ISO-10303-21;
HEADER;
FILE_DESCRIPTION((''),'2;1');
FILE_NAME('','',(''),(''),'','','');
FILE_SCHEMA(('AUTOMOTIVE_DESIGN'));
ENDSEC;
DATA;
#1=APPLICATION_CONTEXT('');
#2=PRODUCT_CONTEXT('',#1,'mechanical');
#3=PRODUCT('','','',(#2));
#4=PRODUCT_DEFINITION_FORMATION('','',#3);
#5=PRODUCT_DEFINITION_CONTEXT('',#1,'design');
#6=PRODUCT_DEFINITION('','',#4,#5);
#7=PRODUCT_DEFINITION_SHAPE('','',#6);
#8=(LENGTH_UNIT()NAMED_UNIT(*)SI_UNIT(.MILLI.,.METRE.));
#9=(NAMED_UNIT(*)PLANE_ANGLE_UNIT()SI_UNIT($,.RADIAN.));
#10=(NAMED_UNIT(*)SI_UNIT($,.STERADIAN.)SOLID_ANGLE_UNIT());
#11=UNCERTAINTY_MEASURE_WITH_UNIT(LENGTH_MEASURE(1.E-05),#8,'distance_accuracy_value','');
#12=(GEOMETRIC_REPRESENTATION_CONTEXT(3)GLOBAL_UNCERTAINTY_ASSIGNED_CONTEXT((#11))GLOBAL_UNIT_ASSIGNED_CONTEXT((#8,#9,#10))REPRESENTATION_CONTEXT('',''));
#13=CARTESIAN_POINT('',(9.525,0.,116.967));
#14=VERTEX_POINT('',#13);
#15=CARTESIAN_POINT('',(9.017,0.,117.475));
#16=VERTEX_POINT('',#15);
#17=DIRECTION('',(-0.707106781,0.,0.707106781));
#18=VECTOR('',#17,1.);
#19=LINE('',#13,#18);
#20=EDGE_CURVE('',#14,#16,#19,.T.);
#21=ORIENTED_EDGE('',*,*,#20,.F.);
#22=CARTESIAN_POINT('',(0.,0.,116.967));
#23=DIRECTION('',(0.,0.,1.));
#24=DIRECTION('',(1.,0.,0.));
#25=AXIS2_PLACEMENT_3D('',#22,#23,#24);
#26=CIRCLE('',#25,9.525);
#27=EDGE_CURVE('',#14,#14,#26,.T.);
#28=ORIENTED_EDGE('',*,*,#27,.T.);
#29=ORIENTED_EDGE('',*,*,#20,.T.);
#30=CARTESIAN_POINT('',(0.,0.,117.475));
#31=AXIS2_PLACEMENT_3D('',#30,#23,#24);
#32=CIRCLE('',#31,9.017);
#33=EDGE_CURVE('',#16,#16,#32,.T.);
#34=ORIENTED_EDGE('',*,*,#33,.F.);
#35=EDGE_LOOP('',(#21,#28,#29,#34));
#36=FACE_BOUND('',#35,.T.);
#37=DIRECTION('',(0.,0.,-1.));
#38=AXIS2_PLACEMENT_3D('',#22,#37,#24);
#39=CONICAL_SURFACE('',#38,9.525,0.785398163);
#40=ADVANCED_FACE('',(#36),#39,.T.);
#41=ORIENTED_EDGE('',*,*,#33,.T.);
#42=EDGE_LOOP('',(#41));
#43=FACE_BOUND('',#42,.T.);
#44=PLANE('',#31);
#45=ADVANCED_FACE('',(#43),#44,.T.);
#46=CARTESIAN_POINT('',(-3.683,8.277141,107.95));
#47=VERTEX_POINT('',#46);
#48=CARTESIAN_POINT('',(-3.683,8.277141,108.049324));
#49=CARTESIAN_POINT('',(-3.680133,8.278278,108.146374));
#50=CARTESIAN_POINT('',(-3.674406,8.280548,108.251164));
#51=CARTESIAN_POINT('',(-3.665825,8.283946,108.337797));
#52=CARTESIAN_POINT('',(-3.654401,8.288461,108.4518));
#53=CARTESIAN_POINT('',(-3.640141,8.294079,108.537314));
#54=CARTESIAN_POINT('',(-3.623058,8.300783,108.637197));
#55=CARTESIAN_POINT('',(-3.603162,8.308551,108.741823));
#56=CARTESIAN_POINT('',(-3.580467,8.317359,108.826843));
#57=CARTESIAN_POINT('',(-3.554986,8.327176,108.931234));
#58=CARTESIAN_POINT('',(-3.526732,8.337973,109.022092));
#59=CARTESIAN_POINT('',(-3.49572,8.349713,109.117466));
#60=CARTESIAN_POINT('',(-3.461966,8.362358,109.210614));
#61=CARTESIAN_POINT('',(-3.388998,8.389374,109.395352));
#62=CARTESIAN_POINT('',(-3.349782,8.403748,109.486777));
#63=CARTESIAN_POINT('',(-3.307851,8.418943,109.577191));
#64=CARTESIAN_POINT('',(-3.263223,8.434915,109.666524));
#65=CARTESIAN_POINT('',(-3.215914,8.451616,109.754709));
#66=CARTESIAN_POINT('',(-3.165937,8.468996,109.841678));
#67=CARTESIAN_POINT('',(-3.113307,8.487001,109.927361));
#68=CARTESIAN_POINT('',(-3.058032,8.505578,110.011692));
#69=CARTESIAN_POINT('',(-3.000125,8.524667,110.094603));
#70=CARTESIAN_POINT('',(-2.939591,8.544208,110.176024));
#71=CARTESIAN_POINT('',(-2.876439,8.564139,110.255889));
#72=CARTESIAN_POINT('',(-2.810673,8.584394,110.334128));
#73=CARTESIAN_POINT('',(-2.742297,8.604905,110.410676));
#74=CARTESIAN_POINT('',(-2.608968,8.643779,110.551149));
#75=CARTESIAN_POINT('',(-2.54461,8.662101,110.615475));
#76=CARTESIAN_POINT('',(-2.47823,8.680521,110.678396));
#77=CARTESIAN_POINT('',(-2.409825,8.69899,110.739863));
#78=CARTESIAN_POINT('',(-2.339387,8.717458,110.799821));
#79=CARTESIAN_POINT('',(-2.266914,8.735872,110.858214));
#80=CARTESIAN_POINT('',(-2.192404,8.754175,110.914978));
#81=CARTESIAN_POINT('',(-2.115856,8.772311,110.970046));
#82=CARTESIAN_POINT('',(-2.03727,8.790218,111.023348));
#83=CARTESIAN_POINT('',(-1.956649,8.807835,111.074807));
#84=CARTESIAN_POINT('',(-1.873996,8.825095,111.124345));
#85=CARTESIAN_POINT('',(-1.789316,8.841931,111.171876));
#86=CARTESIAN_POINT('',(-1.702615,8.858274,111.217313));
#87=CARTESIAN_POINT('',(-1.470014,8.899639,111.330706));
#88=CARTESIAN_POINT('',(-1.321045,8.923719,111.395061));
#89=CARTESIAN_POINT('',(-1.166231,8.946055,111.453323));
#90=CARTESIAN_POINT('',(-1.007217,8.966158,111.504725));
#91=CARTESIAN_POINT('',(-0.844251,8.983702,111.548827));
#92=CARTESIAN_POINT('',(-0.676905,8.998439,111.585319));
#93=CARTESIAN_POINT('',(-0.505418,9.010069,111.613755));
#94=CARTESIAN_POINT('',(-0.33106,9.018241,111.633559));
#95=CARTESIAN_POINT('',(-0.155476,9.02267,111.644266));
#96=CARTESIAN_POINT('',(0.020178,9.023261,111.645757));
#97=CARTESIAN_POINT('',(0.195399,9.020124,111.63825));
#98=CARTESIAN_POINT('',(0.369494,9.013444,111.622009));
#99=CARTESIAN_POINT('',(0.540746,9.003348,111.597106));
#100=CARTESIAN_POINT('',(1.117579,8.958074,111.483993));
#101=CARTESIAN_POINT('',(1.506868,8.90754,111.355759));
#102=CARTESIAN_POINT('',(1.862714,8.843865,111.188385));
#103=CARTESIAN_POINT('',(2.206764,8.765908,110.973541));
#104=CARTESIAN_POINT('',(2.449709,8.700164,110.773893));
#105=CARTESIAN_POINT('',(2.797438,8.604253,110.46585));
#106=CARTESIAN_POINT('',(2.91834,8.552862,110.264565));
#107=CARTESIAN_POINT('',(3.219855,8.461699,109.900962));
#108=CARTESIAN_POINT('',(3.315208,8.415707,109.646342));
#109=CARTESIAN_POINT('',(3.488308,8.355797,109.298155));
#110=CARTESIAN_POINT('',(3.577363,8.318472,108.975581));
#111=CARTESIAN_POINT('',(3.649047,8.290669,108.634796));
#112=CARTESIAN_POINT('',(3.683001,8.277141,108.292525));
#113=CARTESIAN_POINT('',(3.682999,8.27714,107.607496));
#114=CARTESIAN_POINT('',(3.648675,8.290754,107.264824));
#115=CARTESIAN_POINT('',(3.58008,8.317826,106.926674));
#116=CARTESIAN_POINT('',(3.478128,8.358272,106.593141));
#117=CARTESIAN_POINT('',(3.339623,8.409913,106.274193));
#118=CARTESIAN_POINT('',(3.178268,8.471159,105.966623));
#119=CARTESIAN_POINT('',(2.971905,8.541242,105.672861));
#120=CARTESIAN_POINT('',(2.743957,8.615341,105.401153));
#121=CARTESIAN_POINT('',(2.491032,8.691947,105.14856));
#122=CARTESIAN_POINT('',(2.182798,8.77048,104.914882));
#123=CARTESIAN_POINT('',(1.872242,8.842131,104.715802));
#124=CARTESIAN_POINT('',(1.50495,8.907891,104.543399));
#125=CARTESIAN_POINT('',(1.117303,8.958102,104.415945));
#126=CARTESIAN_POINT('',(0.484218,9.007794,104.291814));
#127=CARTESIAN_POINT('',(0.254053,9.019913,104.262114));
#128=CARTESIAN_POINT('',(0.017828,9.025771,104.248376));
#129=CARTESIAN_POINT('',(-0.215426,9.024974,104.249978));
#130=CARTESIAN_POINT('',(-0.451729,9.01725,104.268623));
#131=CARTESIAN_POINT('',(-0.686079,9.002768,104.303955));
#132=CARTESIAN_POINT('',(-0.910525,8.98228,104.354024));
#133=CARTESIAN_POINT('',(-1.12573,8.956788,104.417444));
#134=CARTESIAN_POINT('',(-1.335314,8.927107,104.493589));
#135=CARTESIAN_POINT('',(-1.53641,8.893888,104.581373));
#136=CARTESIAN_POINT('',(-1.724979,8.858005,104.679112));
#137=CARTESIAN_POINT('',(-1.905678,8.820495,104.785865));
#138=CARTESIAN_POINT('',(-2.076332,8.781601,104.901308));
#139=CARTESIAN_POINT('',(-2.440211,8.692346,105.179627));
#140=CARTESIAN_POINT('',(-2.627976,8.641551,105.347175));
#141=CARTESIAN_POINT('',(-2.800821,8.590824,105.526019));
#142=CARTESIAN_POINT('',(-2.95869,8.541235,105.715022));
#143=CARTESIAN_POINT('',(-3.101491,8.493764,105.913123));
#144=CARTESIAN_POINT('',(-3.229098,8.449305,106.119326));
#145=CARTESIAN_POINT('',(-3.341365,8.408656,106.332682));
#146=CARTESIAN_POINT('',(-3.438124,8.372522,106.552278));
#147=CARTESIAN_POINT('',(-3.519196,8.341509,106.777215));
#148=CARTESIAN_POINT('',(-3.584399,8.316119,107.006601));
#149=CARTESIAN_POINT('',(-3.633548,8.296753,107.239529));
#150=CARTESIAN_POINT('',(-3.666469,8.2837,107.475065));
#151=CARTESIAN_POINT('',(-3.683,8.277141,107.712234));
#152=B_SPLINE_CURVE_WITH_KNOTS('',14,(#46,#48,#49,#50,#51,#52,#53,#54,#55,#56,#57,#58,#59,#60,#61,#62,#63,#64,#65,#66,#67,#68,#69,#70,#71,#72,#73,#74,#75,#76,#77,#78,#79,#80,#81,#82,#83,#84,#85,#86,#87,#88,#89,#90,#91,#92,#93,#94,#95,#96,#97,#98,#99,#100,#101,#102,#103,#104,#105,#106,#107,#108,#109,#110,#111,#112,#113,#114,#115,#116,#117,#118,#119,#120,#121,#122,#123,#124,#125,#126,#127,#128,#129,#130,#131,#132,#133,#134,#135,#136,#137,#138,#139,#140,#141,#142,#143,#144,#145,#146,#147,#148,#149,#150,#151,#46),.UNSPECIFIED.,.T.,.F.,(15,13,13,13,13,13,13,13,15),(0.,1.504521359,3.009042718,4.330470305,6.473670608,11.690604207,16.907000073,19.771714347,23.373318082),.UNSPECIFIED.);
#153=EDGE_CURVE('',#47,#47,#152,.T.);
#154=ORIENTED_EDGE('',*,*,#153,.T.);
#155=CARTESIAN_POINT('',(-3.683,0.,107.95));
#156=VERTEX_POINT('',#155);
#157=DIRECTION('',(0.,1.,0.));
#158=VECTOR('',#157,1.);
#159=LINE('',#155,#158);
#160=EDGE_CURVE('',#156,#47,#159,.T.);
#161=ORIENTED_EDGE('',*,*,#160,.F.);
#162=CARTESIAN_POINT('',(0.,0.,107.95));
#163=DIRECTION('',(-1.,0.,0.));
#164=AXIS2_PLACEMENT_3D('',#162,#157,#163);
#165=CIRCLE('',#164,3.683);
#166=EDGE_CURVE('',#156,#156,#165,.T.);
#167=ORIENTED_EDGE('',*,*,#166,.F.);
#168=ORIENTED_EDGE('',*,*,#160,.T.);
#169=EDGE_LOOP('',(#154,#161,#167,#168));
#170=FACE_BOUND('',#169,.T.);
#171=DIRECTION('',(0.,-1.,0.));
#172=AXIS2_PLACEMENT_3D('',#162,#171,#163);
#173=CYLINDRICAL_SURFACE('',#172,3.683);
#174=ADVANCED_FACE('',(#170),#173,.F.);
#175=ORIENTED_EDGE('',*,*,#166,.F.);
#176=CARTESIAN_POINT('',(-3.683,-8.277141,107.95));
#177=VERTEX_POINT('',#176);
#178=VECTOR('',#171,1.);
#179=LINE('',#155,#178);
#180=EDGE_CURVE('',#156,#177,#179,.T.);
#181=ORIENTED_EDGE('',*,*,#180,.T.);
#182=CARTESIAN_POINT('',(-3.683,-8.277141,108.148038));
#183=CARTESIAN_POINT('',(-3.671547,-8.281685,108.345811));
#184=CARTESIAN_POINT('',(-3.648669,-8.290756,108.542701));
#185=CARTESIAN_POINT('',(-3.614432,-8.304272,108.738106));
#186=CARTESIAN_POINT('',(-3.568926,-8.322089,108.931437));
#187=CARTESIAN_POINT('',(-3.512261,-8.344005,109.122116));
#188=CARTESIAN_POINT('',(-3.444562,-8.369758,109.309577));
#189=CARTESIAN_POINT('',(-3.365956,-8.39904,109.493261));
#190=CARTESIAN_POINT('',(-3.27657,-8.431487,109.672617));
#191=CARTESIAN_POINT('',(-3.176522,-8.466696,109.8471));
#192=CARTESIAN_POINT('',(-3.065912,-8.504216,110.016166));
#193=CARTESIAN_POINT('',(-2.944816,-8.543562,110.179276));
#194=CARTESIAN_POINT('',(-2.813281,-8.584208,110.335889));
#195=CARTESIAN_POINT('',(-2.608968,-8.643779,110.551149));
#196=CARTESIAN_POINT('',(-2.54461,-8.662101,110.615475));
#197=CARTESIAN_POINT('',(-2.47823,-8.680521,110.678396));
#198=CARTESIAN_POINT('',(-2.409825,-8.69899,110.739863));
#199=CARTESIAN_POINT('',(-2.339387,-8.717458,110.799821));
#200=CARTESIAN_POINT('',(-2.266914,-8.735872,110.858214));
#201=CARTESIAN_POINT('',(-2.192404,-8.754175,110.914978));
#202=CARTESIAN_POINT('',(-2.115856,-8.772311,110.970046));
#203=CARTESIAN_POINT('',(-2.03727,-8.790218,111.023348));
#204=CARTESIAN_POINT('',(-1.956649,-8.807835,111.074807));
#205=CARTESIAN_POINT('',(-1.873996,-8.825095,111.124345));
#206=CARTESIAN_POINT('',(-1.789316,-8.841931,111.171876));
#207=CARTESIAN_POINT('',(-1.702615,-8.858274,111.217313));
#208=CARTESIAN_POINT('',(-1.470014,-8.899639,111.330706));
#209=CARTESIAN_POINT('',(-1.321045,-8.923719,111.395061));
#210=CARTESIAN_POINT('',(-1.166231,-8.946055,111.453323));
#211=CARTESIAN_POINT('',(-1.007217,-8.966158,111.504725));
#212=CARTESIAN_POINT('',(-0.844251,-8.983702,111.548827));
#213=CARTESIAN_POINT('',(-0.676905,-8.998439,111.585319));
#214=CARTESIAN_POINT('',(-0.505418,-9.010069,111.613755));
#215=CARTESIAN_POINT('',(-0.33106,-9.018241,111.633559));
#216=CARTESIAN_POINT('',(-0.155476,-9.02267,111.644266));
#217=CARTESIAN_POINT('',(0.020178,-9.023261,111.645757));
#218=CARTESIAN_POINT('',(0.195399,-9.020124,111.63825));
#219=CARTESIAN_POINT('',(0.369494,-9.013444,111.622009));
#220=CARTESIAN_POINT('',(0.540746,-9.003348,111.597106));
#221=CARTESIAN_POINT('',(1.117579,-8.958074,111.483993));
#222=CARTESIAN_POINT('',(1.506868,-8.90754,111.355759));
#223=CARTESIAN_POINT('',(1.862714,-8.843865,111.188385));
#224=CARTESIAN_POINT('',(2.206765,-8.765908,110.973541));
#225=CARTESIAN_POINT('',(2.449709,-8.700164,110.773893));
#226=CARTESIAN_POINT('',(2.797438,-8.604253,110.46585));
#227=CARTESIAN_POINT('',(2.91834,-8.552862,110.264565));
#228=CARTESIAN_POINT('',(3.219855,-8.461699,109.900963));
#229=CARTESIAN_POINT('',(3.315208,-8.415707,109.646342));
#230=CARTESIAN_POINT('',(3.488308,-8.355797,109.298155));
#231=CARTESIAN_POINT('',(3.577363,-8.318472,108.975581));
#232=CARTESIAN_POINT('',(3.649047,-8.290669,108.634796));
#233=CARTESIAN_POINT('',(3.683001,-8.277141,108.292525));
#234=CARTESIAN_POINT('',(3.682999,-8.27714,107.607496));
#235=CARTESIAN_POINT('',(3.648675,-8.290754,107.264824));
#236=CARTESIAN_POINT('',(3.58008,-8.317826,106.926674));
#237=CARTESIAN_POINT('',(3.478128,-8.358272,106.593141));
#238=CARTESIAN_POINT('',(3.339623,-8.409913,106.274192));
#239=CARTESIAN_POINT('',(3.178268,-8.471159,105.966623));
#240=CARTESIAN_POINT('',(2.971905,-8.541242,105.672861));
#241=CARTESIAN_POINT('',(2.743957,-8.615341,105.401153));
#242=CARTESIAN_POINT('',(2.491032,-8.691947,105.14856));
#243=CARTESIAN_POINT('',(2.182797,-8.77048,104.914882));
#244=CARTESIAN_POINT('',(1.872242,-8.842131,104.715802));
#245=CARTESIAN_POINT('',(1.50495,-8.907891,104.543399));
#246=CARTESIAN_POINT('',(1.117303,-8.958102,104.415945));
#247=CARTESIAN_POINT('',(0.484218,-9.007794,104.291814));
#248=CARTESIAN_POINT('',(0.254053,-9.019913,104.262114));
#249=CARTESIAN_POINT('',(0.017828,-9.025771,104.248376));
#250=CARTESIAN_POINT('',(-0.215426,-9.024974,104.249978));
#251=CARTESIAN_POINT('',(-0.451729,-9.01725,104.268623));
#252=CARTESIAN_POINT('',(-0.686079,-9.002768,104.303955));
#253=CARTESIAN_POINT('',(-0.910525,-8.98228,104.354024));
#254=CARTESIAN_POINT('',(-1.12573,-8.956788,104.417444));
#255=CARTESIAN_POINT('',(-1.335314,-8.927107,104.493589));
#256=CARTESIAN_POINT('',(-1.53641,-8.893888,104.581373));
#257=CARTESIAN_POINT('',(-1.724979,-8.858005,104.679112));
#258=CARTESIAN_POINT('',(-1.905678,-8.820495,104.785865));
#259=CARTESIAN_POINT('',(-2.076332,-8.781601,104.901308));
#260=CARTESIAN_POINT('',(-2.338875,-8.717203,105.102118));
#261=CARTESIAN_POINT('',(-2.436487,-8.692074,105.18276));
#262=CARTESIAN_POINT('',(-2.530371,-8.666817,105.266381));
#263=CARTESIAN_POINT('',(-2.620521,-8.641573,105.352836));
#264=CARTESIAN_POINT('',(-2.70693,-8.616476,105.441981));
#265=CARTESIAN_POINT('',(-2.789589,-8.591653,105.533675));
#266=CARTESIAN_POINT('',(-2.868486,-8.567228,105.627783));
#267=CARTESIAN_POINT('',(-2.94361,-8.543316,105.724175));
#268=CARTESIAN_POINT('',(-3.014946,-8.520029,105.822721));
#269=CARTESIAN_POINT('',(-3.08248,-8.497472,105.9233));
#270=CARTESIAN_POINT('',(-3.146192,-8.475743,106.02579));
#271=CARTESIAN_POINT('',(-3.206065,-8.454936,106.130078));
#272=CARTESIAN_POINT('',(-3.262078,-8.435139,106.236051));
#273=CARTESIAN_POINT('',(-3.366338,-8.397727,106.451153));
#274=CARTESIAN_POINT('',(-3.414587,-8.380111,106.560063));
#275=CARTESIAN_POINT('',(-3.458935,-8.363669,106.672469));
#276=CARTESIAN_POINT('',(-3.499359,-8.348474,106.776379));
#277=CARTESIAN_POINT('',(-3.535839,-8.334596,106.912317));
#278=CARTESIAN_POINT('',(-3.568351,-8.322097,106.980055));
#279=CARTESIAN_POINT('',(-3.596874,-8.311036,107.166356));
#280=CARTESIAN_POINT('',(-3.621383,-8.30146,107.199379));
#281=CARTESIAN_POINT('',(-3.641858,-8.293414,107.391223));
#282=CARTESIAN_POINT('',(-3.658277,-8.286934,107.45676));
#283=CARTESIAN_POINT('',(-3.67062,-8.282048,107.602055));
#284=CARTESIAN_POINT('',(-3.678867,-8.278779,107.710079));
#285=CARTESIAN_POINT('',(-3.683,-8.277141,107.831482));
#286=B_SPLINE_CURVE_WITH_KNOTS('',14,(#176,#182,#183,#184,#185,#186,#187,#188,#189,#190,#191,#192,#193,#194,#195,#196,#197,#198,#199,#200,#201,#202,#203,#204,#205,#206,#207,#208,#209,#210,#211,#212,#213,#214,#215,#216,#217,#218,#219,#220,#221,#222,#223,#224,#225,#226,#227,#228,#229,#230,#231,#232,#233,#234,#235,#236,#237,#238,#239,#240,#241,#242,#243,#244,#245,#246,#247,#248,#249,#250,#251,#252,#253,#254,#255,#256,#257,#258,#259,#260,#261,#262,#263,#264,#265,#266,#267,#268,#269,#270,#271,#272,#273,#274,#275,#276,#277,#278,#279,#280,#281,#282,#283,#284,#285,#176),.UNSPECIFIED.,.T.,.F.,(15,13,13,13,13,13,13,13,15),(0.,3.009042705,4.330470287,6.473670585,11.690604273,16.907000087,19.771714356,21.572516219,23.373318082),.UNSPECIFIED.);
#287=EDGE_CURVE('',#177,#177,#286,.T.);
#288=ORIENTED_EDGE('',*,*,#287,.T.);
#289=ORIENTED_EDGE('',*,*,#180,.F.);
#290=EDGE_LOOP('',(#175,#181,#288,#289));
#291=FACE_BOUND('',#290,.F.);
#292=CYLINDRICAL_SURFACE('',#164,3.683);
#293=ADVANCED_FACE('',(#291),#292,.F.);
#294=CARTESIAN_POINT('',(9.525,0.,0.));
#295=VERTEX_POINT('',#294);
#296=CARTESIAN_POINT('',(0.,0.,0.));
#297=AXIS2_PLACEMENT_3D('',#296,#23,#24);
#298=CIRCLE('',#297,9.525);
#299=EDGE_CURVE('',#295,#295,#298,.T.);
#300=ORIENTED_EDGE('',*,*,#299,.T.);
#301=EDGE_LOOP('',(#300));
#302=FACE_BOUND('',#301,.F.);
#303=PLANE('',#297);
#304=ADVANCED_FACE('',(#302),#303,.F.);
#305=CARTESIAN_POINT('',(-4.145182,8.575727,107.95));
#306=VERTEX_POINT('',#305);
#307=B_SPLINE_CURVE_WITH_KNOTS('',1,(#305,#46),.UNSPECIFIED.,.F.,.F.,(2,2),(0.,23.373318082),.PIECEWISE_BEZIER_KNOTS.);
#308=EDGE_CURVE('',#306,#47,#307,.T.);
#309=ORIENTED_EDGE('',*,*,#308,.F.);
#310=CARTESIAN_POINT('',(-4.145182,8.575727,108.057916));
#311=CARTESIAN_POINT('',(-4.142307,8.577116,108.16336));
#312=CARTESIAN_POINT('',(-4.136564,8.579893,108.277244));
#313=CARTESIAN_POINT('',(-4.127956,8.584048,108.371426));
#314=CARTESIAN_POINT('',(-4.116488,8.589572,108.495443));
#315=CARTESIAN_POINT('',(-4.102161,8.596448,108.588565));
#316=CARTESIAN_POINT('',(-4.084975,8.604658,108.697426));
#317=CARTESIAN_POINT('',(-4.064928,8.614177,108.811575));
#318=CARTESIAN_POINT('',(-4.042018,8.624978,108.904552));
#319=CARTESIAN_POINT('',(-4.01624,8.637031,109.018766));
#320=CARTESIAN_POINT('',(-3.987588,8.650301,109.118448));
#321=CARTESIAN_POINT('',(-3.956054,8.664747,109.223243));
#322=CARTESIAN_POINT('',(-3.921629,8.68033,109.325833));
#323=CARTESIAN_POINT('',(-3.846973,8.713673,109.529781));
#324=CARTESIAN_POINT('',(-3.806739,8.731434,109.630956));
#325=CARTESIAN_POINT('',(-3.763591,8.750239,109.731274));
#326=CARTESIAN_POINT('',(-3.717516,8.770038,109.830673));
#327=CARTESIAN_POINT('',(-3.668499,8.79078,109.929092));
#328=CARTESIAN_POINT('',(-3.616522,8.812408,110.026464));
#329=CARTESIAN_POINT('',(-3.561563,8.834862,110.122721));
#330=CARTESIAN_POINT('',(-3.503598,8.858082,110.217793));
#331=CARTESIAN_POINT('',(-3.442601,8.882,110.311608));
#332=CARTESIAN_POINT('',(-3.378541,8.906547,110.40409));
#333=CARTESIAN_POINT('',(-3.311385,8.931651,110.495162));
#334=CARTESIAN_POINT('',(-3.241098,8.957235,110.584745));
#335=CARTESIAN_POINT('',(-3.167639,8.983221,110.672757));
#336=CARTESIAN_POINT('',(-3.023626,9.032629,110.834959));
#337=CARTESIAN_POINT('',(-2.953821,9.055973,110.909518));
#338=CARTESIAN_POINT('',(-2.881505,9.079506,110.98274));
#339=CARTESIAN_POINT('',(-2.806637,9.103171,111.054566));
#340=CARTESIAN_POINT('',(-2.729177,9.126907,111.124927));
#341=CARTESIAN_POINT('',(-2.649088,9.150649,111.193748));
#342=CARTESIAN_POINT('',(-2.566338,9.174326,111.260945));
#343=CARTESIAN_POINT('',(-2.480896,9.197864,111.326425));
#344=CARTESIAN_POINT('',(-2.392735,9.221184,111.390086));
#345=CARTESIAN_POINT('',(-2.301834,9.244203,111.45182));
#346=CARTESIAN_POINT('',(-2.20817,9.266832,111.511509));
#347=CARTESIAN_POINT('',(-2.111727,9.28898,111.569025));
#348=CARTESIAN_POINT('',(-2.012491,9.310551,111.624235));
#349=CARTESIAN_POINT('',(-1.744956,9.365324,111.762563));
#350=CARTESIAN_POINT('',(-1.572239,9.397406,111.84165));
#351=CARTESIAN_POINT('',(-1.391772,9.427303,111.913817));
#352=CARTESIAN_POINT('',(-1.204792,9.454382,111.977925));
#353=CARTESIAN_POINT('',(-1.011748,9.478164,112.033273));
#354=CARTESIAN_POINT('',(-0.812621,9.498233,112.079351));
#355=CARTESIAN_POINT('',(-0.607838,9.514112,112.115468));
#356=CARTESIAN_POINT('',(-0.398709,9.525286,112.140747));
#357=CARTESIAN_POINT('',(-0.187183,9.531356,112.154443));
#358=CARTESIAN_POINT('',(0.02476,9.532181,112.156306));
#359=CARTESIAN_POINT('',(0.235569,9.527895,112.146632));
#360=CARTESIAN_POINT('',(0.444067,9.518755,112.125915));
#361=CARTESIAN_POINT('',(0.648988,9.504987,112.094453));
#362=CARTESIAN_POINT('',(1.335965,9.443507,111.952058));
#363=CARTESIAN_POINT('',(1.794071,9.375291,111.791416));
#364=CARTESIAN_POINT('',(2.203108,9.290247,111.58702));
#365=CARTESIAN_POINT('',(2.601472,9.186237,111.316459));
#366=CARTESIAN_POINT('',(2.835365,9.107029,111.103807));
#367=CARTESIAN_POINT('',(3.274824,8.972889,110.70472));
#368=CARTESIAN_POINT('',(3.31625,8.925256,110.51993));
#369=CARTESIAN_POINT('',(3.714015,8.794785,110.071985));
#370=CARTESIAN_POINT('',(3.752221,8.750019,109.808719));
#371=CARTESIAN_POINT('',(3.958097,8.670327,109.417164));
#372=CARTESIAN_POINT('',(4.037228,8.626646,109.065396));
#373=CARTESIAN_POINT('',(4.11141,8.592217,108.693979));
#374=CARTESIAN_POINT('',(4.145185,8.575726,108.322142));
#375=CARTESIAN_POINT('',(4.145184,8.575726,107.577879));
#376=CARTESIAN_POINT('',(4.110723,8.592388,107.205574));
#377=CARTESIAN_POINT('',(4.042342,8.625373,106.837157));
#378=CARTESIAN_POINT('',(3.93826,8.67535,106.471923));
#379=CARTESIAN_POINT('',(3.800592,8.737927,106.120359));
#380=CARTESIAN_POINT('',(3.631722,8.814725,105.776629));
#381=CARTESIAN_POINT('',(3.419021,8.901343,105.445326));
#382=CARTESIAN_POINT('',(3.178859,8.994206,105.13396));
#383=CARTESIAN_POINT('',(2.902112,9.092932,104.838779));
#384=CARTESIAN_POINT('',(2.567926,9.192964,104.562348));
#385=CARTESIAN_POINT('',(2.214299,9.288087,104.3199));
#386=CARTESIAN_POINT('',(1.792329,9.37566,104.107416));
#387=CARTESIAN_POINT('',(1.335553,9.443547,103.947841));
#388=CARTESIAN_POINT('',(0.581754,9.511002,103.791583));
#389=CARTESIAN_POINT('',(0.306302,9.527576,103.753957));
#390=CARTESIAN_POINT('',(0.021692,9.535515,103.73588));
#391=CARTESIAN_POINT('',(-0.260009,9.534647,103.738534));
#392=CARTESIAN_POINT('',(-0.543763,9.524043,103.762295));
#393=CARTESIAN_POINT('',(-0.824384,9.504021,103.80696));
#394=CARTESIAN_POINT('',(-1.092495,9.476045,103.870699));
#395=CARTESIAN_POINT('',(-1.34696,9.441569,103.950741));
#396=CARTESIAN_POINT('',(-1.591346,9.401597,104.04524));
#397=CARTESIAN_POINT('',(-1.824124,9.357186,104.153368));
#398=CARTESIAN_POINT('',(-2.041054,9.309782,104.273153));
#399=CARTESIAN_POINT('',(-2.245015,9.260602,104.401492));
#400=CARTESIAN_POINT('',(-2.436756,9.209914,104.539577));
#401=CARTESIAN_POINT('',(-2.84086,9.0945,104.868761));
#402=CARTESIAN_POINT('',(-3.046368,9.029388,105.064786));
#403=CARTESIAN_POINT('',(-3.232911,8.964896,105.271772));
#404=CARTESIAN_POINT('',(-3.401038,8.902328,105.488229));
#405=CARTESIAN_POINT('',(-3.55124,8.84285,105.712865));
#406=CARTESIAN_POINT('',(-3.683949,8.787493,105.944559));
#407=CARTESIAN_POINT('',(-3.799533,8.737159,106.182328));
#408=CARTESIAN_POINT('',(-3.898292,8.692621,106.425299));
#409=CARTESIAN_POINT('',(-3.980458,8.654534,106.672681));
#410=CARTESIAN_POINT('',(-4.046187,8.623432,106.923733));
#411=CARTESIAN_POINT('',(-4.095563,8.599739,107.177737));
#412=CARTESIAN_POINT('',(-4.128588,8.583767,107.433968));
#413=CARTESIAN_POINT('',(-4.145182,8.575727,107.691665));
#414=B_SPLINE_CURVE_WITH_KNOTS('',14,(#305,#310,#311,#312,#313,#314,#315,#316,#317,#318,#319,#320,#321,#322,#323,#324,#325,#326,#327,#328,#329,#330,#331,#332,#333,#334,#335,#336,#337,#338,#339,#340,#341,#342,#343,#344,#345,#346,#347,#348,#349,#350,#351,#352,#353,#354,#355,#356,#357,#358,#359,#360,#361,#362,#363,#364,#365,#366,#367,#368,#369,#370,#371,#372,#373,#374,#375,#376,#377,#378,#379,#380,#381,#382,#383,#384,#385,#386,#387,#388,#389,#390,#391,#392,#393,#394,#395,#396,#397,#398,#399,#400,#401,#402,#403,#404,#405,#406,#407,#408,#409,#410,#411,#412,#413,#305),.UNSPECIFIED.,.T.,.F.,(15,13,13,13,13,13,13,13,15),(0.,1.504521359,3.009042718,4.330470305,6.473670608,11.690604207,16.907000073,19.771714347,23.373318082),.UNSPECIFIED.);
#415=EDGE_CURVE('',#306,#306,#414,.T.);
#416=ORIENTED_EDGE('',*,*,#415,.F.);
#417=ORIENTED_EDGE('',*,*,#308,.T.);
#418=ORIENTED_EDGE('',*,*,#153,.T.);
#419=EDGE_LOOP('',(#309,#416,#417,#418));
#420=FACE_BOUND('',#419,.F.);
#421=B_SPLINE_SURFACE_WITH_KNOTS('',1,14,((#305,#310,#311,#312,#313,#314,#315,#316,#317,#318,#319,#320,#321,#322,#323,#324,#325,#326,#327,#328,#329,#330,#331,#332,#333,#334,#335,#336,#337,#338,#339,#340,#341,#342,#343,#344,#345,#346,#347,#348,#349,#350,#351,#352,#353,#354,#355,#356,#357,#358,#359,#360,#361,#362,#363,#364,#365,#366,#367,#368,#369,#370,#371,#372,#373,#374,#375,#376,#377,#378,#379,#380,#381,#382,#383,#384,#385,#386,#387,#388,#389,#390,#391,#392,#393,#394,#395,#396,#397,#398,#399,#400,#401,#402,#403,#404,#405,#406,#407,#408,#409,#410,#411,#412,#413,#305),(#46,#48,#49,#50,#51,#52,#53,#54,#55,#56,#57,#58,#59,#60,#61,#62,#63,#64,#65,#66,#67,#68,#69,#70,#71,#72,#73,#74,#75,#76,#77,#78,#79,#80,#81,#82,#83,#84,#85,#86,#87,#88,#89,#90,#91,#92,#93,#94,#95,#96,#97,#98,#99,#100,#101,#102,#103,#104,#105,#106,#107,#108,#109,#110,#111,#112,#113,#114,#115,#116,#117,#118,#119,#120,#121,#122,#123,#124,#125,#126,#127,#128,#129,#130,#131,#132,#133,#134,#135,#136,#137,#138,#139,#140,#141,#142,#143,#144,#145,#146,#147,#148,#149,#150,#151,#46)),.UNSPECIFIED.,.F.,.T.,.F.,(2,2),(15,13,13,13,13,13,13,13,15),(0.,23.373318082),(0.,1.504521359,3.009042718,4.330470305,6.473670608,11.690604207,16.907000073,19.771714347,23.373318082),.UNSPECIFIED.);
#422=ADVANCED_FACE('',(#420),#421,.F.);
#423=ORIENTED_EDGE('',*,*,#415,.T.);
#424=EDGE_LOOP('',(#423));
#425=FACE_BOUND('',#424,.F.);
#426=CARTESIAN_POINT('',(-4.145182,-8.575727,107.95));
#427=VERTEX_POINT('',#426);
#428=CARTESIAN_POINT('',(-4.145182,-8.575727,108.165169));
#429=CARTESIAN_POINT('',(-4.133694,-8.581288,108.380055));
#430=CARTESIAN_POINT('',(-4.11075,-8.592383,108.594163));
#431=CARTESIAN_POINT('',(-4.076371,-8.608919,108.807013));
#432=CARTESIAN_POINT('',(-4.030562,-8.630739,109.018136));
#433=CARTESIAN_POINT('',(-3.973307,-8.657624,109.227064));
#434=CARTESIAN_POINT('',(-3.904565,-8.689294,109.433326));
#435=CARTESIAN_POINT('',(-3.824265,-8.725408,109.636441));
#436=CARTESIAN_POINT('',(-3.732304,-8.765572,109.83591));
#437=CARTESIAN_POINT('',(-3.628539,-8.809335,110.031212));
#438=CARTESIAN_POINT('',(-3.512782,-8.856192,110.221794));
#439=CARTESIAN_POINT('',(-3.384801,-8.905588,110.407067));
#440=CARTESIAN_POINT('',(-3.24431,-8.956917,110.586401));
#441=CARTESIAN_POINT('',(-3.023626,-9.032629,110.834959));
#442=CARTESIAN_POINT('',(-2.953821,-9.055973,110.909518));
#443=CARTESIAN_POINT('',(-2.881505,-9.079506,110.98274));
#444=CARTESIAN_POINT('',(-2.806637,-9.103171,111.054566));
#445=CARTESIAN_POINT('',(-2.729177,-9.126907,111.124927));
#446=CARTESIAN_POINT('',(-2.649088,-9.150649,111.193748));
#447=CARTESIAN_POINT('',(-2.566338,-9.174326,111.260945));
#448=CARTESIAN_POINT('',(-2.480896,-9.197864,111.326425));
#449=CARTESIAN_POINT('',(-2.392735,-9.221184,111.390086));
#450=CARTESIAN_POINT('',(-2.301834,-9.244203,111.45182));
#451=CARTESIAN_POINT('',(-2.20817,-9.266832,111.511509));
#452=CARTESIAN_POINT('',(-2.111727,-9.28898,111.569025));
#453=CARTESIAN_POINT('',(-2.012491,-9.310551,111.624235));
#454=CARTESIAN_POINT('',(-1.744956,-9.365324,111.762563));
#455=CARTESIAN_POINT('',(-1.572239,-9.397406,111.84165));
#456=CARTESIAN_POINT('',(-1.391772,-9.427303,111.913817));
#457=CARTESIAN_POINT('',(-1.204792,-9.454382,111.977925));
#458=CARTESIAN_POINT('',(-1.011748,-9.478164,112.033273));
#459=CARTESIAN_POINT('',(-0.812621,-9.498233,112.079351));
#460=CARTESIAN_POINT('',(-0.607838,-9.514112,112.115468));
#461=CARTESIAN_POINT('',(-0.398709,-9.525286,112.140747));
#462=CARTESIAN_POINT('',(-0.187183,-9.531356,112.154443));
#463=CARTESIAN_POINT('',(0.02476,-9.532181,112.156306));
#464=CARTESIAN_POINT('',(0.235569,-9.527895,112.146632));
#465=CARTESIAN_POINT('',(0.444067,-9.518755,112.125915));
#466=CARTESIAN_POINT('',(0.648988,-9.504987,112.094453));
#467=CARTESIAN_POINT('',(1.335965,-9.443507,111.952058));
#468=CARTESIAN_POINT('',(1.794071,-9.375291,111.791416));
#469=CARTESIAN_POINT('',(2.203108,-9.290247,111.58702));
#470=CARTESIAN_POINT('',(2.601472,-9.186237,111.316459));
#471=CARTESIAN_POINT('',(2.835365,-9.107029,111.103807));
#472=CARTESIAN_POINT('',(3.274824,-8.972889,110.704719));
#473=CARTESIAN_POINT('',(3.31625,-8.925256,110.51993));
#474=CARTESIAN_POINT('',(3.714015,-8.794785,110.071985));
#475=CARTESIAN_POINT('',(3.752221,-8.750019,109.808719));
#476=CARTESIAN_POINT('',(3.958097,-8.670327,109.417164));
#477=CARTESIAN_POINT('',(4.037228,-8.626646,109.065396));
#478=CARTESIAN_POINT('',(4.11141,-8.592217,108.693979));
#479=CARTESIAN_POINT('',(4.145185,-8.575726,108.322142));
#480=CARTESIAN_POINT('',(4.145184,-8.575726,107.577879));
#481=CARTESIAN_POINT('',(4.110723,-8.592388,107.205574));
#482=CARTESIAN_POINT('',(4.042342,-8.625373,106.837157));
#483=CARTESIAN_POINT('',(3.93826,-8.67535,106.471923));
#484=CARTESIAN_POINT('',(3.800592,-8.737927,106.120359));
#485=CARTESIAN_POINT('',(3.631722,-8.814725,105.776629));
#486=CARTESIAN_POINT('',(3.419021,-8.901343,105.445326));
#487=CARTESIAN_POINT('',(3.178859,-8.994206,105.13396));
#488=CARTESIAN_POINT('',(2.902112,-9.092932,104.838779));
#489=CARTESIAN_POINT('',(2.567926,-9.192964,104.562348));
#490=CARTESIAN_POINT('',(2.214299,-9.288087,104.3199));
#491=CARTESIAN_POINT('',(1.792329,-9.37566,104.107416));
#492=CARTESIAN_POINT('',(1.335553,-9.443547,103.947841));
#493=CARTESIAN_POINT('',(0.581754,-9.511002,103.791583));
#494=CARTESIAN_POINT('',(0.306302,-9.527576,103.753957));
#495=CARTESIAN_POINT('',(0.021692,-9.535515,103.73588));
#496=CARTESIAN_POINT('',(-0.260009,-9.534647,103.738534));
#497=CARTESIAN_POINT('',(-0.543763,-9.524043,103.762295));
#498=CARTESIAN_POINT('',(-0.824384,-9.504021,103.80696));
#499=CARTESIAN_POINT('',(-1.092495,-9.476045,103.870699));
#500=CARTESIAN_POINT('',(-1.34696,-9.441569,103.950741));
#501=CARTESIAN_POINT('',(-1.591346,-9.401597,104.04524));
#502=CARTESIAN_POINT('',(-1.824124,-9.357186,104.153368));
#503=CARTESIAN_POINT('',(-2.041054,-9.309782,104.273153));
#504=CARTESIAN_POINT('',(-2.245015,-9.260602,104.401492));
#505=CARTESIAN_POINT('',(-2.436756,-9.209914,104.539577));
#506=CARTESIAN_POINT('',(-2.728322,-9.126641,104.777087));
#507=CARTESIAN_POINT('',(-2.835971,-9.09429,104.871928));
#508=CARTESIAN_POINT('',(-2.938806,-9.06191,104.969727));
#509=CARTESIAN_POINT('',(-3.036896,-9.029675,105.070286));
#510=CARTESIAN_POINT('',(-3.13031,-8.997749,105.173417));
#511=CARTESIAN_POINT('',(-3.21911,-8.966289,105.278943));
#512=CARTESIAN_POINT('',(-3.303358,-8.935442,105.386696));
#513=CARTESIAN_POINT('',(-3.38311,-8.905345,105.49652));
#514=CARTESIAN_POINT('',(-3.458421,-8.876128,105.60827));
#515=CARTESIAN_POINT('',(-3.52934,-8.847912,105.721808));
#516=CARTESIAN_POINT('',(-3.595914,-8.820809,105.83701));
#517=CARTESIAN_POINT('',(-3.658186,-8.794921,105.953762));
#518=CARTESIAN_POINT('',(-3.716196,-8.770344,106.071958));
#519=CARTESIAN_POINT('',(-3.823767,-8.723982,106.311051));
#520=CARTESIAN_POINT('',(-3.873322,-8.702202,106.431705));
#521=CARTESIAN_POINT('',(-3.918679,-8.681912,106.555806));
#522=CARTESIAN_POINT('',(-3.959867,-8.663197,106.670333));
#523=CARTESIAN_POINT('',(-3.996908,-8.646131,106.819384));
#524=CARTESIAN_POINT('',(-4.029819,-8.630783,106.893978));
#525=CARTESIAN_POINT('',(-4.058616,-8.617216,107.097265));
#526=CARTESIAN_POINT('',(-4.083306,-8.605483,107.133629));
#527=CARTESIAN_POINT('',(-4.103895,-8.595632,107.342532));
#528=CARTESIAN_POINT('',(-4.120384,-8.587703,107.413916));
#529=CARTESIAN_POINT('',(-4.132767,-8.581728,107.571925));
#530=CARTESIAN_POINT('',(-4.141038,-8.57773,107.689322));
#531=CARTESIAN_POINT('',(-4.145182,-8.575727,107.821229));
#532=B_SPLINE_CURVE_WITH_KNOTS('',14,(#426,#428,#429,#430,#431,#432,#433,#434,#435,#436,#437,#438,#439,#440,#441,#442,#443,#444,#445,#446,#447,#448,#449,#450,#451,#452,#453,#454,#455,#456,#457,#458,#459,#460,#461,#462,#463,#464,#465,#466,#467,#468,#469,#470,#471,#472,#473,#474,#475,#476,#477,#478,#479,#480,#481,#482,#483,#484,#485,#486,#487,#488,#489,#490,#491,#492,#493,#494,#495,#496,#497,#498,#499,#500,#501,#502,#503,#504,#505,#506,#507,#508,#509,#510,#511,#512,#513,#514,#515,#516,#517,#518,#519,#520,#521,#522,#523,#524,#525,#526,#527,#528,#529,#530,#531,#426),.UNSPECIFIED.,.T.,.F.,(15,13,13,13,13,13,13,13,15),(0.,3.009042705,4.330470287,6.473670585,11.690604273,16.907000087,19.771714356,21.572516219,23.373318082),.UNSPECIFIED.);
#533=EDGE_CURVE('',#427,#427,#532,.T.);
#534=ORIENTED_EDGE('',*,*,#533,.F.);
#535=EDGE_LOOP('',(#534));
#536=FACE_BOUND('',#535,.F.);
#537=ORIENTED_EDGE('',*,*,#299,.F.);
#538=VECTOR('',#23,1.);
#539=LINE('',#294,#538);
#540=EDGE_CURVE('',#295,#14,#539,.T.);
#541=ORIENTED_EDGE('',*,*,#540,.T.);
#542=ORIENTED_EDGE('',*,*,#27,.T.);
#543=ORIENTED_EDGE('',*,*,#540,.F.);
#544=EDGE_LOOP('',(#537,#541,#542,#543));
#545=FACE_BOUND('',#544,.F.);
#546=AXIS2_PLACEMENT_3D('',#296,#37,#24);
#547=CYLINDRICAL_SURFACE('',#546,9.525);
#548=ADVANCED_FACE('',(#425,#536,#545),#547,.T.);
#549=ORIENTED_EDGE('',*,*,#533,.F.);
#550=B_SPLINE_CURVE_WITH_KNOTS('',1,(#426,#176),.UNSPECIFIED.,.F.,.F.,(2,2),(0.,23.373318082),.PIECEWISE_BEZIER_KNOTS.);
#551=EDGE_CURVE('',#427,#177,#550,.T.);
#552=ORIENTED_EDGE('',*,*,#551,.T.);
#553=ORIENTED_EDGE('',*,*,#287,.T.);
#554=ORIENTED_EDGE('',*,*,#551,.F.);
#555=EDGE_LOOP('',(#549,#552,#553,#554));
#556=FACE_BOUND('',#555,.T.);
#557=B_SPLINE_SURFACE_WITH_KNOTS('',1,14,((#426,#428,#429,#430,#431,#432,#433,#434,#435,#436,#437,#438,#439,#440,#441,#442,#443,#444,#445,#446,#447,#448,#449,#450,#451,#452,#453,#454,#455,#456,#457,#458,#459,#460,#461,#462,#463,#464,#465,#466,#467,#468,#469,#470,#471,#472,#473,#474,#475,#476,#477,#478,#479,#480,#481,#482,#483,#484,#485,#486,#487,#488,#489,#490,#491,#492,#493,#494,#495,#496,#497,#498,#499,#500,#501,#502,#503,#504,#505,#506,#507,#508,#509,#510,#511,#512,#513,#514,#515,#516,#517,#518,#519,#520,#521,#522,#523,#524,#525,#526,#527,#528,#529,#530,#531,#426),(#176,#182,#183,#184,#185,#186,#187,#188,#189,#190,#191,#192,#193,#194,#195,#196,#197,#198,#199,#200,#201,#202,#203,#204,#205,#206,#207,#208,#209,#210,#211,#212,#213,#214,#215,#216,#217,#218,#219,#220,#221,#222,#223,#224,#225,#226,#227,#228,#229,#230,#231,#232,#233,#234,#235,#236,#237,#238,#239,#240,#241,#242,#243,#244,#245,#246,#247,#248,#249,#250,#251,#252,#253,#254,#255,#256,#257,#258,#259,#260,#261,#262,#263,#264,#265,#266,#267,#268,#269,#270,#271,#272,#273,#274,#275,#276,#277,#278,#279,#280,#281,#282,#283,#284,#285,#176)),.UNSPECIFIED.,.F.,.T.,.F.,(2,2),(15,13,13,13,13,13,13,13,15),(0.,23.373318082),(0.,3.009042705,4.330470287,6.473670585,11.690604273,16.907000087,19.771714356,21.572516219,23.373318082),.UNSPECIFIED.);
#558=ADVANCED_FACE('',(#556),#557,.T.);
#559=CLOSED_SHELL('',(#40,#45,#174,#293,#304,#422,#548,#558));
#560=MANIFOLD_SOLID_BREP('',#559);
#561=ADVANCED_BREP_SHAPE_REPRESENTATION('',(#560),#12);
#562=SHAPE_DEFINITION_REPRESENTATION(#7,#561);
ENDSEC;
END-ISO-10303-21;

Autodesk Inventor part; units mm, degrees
ref_plane "YZ Plane" through (0, 0, 0) normal (1, 0, 0) x (0, 1, 0)
ref_plane "XY Plane" through (0, 0, 0) normal (0, 0, 1) x (1, 0, 0)
sketch "Base" plane through (0, 0, 0) normal (0, 0, 1) x (1, 0, 0)
  circle A0 centre (0, 0) radius 9.525
  dimension "d0" = 19.05
extrude "BaseFeature" add sketch "Base" along normal blind 117.475
chamfer "BaseChamferFeature" distance 0.508 angle 45 1 edges at (-9.525, 0, 117.475)
sketch "MountHole" plane through (0, 0, 0) normal (0, 1, 0) x (-1, 0, 0)
  line L0 (-9.017, 117.475) -> (9.017, 117.475) construction
  line L1 (0, 117.475) -> (0, 111.633) construction
  line L2 (0, 111.633) -> (0, 107.95) construction
  circle A0 centre (0, 107.95) radius 3.683
  point P0 (0, 0)
  dimension "d6" = 5.842
  dimension "d7" = 3.683
extrude "MountHoleFeature" cut sketch "MountHole" along normal through all both and the other way through all
chamfer "MountHoleChamferFeature" distance 0.507 angle 45 2 edges at (3.683, -8.7841, 107.9534) (3.683, 8.7841, 107.9534)
ref_plane "MountPlane" through (0, -10, 0) normal (0, -1, 0) x (1, 0, 0)
properties part number "FA-RMS-15-12-4-Piston"
